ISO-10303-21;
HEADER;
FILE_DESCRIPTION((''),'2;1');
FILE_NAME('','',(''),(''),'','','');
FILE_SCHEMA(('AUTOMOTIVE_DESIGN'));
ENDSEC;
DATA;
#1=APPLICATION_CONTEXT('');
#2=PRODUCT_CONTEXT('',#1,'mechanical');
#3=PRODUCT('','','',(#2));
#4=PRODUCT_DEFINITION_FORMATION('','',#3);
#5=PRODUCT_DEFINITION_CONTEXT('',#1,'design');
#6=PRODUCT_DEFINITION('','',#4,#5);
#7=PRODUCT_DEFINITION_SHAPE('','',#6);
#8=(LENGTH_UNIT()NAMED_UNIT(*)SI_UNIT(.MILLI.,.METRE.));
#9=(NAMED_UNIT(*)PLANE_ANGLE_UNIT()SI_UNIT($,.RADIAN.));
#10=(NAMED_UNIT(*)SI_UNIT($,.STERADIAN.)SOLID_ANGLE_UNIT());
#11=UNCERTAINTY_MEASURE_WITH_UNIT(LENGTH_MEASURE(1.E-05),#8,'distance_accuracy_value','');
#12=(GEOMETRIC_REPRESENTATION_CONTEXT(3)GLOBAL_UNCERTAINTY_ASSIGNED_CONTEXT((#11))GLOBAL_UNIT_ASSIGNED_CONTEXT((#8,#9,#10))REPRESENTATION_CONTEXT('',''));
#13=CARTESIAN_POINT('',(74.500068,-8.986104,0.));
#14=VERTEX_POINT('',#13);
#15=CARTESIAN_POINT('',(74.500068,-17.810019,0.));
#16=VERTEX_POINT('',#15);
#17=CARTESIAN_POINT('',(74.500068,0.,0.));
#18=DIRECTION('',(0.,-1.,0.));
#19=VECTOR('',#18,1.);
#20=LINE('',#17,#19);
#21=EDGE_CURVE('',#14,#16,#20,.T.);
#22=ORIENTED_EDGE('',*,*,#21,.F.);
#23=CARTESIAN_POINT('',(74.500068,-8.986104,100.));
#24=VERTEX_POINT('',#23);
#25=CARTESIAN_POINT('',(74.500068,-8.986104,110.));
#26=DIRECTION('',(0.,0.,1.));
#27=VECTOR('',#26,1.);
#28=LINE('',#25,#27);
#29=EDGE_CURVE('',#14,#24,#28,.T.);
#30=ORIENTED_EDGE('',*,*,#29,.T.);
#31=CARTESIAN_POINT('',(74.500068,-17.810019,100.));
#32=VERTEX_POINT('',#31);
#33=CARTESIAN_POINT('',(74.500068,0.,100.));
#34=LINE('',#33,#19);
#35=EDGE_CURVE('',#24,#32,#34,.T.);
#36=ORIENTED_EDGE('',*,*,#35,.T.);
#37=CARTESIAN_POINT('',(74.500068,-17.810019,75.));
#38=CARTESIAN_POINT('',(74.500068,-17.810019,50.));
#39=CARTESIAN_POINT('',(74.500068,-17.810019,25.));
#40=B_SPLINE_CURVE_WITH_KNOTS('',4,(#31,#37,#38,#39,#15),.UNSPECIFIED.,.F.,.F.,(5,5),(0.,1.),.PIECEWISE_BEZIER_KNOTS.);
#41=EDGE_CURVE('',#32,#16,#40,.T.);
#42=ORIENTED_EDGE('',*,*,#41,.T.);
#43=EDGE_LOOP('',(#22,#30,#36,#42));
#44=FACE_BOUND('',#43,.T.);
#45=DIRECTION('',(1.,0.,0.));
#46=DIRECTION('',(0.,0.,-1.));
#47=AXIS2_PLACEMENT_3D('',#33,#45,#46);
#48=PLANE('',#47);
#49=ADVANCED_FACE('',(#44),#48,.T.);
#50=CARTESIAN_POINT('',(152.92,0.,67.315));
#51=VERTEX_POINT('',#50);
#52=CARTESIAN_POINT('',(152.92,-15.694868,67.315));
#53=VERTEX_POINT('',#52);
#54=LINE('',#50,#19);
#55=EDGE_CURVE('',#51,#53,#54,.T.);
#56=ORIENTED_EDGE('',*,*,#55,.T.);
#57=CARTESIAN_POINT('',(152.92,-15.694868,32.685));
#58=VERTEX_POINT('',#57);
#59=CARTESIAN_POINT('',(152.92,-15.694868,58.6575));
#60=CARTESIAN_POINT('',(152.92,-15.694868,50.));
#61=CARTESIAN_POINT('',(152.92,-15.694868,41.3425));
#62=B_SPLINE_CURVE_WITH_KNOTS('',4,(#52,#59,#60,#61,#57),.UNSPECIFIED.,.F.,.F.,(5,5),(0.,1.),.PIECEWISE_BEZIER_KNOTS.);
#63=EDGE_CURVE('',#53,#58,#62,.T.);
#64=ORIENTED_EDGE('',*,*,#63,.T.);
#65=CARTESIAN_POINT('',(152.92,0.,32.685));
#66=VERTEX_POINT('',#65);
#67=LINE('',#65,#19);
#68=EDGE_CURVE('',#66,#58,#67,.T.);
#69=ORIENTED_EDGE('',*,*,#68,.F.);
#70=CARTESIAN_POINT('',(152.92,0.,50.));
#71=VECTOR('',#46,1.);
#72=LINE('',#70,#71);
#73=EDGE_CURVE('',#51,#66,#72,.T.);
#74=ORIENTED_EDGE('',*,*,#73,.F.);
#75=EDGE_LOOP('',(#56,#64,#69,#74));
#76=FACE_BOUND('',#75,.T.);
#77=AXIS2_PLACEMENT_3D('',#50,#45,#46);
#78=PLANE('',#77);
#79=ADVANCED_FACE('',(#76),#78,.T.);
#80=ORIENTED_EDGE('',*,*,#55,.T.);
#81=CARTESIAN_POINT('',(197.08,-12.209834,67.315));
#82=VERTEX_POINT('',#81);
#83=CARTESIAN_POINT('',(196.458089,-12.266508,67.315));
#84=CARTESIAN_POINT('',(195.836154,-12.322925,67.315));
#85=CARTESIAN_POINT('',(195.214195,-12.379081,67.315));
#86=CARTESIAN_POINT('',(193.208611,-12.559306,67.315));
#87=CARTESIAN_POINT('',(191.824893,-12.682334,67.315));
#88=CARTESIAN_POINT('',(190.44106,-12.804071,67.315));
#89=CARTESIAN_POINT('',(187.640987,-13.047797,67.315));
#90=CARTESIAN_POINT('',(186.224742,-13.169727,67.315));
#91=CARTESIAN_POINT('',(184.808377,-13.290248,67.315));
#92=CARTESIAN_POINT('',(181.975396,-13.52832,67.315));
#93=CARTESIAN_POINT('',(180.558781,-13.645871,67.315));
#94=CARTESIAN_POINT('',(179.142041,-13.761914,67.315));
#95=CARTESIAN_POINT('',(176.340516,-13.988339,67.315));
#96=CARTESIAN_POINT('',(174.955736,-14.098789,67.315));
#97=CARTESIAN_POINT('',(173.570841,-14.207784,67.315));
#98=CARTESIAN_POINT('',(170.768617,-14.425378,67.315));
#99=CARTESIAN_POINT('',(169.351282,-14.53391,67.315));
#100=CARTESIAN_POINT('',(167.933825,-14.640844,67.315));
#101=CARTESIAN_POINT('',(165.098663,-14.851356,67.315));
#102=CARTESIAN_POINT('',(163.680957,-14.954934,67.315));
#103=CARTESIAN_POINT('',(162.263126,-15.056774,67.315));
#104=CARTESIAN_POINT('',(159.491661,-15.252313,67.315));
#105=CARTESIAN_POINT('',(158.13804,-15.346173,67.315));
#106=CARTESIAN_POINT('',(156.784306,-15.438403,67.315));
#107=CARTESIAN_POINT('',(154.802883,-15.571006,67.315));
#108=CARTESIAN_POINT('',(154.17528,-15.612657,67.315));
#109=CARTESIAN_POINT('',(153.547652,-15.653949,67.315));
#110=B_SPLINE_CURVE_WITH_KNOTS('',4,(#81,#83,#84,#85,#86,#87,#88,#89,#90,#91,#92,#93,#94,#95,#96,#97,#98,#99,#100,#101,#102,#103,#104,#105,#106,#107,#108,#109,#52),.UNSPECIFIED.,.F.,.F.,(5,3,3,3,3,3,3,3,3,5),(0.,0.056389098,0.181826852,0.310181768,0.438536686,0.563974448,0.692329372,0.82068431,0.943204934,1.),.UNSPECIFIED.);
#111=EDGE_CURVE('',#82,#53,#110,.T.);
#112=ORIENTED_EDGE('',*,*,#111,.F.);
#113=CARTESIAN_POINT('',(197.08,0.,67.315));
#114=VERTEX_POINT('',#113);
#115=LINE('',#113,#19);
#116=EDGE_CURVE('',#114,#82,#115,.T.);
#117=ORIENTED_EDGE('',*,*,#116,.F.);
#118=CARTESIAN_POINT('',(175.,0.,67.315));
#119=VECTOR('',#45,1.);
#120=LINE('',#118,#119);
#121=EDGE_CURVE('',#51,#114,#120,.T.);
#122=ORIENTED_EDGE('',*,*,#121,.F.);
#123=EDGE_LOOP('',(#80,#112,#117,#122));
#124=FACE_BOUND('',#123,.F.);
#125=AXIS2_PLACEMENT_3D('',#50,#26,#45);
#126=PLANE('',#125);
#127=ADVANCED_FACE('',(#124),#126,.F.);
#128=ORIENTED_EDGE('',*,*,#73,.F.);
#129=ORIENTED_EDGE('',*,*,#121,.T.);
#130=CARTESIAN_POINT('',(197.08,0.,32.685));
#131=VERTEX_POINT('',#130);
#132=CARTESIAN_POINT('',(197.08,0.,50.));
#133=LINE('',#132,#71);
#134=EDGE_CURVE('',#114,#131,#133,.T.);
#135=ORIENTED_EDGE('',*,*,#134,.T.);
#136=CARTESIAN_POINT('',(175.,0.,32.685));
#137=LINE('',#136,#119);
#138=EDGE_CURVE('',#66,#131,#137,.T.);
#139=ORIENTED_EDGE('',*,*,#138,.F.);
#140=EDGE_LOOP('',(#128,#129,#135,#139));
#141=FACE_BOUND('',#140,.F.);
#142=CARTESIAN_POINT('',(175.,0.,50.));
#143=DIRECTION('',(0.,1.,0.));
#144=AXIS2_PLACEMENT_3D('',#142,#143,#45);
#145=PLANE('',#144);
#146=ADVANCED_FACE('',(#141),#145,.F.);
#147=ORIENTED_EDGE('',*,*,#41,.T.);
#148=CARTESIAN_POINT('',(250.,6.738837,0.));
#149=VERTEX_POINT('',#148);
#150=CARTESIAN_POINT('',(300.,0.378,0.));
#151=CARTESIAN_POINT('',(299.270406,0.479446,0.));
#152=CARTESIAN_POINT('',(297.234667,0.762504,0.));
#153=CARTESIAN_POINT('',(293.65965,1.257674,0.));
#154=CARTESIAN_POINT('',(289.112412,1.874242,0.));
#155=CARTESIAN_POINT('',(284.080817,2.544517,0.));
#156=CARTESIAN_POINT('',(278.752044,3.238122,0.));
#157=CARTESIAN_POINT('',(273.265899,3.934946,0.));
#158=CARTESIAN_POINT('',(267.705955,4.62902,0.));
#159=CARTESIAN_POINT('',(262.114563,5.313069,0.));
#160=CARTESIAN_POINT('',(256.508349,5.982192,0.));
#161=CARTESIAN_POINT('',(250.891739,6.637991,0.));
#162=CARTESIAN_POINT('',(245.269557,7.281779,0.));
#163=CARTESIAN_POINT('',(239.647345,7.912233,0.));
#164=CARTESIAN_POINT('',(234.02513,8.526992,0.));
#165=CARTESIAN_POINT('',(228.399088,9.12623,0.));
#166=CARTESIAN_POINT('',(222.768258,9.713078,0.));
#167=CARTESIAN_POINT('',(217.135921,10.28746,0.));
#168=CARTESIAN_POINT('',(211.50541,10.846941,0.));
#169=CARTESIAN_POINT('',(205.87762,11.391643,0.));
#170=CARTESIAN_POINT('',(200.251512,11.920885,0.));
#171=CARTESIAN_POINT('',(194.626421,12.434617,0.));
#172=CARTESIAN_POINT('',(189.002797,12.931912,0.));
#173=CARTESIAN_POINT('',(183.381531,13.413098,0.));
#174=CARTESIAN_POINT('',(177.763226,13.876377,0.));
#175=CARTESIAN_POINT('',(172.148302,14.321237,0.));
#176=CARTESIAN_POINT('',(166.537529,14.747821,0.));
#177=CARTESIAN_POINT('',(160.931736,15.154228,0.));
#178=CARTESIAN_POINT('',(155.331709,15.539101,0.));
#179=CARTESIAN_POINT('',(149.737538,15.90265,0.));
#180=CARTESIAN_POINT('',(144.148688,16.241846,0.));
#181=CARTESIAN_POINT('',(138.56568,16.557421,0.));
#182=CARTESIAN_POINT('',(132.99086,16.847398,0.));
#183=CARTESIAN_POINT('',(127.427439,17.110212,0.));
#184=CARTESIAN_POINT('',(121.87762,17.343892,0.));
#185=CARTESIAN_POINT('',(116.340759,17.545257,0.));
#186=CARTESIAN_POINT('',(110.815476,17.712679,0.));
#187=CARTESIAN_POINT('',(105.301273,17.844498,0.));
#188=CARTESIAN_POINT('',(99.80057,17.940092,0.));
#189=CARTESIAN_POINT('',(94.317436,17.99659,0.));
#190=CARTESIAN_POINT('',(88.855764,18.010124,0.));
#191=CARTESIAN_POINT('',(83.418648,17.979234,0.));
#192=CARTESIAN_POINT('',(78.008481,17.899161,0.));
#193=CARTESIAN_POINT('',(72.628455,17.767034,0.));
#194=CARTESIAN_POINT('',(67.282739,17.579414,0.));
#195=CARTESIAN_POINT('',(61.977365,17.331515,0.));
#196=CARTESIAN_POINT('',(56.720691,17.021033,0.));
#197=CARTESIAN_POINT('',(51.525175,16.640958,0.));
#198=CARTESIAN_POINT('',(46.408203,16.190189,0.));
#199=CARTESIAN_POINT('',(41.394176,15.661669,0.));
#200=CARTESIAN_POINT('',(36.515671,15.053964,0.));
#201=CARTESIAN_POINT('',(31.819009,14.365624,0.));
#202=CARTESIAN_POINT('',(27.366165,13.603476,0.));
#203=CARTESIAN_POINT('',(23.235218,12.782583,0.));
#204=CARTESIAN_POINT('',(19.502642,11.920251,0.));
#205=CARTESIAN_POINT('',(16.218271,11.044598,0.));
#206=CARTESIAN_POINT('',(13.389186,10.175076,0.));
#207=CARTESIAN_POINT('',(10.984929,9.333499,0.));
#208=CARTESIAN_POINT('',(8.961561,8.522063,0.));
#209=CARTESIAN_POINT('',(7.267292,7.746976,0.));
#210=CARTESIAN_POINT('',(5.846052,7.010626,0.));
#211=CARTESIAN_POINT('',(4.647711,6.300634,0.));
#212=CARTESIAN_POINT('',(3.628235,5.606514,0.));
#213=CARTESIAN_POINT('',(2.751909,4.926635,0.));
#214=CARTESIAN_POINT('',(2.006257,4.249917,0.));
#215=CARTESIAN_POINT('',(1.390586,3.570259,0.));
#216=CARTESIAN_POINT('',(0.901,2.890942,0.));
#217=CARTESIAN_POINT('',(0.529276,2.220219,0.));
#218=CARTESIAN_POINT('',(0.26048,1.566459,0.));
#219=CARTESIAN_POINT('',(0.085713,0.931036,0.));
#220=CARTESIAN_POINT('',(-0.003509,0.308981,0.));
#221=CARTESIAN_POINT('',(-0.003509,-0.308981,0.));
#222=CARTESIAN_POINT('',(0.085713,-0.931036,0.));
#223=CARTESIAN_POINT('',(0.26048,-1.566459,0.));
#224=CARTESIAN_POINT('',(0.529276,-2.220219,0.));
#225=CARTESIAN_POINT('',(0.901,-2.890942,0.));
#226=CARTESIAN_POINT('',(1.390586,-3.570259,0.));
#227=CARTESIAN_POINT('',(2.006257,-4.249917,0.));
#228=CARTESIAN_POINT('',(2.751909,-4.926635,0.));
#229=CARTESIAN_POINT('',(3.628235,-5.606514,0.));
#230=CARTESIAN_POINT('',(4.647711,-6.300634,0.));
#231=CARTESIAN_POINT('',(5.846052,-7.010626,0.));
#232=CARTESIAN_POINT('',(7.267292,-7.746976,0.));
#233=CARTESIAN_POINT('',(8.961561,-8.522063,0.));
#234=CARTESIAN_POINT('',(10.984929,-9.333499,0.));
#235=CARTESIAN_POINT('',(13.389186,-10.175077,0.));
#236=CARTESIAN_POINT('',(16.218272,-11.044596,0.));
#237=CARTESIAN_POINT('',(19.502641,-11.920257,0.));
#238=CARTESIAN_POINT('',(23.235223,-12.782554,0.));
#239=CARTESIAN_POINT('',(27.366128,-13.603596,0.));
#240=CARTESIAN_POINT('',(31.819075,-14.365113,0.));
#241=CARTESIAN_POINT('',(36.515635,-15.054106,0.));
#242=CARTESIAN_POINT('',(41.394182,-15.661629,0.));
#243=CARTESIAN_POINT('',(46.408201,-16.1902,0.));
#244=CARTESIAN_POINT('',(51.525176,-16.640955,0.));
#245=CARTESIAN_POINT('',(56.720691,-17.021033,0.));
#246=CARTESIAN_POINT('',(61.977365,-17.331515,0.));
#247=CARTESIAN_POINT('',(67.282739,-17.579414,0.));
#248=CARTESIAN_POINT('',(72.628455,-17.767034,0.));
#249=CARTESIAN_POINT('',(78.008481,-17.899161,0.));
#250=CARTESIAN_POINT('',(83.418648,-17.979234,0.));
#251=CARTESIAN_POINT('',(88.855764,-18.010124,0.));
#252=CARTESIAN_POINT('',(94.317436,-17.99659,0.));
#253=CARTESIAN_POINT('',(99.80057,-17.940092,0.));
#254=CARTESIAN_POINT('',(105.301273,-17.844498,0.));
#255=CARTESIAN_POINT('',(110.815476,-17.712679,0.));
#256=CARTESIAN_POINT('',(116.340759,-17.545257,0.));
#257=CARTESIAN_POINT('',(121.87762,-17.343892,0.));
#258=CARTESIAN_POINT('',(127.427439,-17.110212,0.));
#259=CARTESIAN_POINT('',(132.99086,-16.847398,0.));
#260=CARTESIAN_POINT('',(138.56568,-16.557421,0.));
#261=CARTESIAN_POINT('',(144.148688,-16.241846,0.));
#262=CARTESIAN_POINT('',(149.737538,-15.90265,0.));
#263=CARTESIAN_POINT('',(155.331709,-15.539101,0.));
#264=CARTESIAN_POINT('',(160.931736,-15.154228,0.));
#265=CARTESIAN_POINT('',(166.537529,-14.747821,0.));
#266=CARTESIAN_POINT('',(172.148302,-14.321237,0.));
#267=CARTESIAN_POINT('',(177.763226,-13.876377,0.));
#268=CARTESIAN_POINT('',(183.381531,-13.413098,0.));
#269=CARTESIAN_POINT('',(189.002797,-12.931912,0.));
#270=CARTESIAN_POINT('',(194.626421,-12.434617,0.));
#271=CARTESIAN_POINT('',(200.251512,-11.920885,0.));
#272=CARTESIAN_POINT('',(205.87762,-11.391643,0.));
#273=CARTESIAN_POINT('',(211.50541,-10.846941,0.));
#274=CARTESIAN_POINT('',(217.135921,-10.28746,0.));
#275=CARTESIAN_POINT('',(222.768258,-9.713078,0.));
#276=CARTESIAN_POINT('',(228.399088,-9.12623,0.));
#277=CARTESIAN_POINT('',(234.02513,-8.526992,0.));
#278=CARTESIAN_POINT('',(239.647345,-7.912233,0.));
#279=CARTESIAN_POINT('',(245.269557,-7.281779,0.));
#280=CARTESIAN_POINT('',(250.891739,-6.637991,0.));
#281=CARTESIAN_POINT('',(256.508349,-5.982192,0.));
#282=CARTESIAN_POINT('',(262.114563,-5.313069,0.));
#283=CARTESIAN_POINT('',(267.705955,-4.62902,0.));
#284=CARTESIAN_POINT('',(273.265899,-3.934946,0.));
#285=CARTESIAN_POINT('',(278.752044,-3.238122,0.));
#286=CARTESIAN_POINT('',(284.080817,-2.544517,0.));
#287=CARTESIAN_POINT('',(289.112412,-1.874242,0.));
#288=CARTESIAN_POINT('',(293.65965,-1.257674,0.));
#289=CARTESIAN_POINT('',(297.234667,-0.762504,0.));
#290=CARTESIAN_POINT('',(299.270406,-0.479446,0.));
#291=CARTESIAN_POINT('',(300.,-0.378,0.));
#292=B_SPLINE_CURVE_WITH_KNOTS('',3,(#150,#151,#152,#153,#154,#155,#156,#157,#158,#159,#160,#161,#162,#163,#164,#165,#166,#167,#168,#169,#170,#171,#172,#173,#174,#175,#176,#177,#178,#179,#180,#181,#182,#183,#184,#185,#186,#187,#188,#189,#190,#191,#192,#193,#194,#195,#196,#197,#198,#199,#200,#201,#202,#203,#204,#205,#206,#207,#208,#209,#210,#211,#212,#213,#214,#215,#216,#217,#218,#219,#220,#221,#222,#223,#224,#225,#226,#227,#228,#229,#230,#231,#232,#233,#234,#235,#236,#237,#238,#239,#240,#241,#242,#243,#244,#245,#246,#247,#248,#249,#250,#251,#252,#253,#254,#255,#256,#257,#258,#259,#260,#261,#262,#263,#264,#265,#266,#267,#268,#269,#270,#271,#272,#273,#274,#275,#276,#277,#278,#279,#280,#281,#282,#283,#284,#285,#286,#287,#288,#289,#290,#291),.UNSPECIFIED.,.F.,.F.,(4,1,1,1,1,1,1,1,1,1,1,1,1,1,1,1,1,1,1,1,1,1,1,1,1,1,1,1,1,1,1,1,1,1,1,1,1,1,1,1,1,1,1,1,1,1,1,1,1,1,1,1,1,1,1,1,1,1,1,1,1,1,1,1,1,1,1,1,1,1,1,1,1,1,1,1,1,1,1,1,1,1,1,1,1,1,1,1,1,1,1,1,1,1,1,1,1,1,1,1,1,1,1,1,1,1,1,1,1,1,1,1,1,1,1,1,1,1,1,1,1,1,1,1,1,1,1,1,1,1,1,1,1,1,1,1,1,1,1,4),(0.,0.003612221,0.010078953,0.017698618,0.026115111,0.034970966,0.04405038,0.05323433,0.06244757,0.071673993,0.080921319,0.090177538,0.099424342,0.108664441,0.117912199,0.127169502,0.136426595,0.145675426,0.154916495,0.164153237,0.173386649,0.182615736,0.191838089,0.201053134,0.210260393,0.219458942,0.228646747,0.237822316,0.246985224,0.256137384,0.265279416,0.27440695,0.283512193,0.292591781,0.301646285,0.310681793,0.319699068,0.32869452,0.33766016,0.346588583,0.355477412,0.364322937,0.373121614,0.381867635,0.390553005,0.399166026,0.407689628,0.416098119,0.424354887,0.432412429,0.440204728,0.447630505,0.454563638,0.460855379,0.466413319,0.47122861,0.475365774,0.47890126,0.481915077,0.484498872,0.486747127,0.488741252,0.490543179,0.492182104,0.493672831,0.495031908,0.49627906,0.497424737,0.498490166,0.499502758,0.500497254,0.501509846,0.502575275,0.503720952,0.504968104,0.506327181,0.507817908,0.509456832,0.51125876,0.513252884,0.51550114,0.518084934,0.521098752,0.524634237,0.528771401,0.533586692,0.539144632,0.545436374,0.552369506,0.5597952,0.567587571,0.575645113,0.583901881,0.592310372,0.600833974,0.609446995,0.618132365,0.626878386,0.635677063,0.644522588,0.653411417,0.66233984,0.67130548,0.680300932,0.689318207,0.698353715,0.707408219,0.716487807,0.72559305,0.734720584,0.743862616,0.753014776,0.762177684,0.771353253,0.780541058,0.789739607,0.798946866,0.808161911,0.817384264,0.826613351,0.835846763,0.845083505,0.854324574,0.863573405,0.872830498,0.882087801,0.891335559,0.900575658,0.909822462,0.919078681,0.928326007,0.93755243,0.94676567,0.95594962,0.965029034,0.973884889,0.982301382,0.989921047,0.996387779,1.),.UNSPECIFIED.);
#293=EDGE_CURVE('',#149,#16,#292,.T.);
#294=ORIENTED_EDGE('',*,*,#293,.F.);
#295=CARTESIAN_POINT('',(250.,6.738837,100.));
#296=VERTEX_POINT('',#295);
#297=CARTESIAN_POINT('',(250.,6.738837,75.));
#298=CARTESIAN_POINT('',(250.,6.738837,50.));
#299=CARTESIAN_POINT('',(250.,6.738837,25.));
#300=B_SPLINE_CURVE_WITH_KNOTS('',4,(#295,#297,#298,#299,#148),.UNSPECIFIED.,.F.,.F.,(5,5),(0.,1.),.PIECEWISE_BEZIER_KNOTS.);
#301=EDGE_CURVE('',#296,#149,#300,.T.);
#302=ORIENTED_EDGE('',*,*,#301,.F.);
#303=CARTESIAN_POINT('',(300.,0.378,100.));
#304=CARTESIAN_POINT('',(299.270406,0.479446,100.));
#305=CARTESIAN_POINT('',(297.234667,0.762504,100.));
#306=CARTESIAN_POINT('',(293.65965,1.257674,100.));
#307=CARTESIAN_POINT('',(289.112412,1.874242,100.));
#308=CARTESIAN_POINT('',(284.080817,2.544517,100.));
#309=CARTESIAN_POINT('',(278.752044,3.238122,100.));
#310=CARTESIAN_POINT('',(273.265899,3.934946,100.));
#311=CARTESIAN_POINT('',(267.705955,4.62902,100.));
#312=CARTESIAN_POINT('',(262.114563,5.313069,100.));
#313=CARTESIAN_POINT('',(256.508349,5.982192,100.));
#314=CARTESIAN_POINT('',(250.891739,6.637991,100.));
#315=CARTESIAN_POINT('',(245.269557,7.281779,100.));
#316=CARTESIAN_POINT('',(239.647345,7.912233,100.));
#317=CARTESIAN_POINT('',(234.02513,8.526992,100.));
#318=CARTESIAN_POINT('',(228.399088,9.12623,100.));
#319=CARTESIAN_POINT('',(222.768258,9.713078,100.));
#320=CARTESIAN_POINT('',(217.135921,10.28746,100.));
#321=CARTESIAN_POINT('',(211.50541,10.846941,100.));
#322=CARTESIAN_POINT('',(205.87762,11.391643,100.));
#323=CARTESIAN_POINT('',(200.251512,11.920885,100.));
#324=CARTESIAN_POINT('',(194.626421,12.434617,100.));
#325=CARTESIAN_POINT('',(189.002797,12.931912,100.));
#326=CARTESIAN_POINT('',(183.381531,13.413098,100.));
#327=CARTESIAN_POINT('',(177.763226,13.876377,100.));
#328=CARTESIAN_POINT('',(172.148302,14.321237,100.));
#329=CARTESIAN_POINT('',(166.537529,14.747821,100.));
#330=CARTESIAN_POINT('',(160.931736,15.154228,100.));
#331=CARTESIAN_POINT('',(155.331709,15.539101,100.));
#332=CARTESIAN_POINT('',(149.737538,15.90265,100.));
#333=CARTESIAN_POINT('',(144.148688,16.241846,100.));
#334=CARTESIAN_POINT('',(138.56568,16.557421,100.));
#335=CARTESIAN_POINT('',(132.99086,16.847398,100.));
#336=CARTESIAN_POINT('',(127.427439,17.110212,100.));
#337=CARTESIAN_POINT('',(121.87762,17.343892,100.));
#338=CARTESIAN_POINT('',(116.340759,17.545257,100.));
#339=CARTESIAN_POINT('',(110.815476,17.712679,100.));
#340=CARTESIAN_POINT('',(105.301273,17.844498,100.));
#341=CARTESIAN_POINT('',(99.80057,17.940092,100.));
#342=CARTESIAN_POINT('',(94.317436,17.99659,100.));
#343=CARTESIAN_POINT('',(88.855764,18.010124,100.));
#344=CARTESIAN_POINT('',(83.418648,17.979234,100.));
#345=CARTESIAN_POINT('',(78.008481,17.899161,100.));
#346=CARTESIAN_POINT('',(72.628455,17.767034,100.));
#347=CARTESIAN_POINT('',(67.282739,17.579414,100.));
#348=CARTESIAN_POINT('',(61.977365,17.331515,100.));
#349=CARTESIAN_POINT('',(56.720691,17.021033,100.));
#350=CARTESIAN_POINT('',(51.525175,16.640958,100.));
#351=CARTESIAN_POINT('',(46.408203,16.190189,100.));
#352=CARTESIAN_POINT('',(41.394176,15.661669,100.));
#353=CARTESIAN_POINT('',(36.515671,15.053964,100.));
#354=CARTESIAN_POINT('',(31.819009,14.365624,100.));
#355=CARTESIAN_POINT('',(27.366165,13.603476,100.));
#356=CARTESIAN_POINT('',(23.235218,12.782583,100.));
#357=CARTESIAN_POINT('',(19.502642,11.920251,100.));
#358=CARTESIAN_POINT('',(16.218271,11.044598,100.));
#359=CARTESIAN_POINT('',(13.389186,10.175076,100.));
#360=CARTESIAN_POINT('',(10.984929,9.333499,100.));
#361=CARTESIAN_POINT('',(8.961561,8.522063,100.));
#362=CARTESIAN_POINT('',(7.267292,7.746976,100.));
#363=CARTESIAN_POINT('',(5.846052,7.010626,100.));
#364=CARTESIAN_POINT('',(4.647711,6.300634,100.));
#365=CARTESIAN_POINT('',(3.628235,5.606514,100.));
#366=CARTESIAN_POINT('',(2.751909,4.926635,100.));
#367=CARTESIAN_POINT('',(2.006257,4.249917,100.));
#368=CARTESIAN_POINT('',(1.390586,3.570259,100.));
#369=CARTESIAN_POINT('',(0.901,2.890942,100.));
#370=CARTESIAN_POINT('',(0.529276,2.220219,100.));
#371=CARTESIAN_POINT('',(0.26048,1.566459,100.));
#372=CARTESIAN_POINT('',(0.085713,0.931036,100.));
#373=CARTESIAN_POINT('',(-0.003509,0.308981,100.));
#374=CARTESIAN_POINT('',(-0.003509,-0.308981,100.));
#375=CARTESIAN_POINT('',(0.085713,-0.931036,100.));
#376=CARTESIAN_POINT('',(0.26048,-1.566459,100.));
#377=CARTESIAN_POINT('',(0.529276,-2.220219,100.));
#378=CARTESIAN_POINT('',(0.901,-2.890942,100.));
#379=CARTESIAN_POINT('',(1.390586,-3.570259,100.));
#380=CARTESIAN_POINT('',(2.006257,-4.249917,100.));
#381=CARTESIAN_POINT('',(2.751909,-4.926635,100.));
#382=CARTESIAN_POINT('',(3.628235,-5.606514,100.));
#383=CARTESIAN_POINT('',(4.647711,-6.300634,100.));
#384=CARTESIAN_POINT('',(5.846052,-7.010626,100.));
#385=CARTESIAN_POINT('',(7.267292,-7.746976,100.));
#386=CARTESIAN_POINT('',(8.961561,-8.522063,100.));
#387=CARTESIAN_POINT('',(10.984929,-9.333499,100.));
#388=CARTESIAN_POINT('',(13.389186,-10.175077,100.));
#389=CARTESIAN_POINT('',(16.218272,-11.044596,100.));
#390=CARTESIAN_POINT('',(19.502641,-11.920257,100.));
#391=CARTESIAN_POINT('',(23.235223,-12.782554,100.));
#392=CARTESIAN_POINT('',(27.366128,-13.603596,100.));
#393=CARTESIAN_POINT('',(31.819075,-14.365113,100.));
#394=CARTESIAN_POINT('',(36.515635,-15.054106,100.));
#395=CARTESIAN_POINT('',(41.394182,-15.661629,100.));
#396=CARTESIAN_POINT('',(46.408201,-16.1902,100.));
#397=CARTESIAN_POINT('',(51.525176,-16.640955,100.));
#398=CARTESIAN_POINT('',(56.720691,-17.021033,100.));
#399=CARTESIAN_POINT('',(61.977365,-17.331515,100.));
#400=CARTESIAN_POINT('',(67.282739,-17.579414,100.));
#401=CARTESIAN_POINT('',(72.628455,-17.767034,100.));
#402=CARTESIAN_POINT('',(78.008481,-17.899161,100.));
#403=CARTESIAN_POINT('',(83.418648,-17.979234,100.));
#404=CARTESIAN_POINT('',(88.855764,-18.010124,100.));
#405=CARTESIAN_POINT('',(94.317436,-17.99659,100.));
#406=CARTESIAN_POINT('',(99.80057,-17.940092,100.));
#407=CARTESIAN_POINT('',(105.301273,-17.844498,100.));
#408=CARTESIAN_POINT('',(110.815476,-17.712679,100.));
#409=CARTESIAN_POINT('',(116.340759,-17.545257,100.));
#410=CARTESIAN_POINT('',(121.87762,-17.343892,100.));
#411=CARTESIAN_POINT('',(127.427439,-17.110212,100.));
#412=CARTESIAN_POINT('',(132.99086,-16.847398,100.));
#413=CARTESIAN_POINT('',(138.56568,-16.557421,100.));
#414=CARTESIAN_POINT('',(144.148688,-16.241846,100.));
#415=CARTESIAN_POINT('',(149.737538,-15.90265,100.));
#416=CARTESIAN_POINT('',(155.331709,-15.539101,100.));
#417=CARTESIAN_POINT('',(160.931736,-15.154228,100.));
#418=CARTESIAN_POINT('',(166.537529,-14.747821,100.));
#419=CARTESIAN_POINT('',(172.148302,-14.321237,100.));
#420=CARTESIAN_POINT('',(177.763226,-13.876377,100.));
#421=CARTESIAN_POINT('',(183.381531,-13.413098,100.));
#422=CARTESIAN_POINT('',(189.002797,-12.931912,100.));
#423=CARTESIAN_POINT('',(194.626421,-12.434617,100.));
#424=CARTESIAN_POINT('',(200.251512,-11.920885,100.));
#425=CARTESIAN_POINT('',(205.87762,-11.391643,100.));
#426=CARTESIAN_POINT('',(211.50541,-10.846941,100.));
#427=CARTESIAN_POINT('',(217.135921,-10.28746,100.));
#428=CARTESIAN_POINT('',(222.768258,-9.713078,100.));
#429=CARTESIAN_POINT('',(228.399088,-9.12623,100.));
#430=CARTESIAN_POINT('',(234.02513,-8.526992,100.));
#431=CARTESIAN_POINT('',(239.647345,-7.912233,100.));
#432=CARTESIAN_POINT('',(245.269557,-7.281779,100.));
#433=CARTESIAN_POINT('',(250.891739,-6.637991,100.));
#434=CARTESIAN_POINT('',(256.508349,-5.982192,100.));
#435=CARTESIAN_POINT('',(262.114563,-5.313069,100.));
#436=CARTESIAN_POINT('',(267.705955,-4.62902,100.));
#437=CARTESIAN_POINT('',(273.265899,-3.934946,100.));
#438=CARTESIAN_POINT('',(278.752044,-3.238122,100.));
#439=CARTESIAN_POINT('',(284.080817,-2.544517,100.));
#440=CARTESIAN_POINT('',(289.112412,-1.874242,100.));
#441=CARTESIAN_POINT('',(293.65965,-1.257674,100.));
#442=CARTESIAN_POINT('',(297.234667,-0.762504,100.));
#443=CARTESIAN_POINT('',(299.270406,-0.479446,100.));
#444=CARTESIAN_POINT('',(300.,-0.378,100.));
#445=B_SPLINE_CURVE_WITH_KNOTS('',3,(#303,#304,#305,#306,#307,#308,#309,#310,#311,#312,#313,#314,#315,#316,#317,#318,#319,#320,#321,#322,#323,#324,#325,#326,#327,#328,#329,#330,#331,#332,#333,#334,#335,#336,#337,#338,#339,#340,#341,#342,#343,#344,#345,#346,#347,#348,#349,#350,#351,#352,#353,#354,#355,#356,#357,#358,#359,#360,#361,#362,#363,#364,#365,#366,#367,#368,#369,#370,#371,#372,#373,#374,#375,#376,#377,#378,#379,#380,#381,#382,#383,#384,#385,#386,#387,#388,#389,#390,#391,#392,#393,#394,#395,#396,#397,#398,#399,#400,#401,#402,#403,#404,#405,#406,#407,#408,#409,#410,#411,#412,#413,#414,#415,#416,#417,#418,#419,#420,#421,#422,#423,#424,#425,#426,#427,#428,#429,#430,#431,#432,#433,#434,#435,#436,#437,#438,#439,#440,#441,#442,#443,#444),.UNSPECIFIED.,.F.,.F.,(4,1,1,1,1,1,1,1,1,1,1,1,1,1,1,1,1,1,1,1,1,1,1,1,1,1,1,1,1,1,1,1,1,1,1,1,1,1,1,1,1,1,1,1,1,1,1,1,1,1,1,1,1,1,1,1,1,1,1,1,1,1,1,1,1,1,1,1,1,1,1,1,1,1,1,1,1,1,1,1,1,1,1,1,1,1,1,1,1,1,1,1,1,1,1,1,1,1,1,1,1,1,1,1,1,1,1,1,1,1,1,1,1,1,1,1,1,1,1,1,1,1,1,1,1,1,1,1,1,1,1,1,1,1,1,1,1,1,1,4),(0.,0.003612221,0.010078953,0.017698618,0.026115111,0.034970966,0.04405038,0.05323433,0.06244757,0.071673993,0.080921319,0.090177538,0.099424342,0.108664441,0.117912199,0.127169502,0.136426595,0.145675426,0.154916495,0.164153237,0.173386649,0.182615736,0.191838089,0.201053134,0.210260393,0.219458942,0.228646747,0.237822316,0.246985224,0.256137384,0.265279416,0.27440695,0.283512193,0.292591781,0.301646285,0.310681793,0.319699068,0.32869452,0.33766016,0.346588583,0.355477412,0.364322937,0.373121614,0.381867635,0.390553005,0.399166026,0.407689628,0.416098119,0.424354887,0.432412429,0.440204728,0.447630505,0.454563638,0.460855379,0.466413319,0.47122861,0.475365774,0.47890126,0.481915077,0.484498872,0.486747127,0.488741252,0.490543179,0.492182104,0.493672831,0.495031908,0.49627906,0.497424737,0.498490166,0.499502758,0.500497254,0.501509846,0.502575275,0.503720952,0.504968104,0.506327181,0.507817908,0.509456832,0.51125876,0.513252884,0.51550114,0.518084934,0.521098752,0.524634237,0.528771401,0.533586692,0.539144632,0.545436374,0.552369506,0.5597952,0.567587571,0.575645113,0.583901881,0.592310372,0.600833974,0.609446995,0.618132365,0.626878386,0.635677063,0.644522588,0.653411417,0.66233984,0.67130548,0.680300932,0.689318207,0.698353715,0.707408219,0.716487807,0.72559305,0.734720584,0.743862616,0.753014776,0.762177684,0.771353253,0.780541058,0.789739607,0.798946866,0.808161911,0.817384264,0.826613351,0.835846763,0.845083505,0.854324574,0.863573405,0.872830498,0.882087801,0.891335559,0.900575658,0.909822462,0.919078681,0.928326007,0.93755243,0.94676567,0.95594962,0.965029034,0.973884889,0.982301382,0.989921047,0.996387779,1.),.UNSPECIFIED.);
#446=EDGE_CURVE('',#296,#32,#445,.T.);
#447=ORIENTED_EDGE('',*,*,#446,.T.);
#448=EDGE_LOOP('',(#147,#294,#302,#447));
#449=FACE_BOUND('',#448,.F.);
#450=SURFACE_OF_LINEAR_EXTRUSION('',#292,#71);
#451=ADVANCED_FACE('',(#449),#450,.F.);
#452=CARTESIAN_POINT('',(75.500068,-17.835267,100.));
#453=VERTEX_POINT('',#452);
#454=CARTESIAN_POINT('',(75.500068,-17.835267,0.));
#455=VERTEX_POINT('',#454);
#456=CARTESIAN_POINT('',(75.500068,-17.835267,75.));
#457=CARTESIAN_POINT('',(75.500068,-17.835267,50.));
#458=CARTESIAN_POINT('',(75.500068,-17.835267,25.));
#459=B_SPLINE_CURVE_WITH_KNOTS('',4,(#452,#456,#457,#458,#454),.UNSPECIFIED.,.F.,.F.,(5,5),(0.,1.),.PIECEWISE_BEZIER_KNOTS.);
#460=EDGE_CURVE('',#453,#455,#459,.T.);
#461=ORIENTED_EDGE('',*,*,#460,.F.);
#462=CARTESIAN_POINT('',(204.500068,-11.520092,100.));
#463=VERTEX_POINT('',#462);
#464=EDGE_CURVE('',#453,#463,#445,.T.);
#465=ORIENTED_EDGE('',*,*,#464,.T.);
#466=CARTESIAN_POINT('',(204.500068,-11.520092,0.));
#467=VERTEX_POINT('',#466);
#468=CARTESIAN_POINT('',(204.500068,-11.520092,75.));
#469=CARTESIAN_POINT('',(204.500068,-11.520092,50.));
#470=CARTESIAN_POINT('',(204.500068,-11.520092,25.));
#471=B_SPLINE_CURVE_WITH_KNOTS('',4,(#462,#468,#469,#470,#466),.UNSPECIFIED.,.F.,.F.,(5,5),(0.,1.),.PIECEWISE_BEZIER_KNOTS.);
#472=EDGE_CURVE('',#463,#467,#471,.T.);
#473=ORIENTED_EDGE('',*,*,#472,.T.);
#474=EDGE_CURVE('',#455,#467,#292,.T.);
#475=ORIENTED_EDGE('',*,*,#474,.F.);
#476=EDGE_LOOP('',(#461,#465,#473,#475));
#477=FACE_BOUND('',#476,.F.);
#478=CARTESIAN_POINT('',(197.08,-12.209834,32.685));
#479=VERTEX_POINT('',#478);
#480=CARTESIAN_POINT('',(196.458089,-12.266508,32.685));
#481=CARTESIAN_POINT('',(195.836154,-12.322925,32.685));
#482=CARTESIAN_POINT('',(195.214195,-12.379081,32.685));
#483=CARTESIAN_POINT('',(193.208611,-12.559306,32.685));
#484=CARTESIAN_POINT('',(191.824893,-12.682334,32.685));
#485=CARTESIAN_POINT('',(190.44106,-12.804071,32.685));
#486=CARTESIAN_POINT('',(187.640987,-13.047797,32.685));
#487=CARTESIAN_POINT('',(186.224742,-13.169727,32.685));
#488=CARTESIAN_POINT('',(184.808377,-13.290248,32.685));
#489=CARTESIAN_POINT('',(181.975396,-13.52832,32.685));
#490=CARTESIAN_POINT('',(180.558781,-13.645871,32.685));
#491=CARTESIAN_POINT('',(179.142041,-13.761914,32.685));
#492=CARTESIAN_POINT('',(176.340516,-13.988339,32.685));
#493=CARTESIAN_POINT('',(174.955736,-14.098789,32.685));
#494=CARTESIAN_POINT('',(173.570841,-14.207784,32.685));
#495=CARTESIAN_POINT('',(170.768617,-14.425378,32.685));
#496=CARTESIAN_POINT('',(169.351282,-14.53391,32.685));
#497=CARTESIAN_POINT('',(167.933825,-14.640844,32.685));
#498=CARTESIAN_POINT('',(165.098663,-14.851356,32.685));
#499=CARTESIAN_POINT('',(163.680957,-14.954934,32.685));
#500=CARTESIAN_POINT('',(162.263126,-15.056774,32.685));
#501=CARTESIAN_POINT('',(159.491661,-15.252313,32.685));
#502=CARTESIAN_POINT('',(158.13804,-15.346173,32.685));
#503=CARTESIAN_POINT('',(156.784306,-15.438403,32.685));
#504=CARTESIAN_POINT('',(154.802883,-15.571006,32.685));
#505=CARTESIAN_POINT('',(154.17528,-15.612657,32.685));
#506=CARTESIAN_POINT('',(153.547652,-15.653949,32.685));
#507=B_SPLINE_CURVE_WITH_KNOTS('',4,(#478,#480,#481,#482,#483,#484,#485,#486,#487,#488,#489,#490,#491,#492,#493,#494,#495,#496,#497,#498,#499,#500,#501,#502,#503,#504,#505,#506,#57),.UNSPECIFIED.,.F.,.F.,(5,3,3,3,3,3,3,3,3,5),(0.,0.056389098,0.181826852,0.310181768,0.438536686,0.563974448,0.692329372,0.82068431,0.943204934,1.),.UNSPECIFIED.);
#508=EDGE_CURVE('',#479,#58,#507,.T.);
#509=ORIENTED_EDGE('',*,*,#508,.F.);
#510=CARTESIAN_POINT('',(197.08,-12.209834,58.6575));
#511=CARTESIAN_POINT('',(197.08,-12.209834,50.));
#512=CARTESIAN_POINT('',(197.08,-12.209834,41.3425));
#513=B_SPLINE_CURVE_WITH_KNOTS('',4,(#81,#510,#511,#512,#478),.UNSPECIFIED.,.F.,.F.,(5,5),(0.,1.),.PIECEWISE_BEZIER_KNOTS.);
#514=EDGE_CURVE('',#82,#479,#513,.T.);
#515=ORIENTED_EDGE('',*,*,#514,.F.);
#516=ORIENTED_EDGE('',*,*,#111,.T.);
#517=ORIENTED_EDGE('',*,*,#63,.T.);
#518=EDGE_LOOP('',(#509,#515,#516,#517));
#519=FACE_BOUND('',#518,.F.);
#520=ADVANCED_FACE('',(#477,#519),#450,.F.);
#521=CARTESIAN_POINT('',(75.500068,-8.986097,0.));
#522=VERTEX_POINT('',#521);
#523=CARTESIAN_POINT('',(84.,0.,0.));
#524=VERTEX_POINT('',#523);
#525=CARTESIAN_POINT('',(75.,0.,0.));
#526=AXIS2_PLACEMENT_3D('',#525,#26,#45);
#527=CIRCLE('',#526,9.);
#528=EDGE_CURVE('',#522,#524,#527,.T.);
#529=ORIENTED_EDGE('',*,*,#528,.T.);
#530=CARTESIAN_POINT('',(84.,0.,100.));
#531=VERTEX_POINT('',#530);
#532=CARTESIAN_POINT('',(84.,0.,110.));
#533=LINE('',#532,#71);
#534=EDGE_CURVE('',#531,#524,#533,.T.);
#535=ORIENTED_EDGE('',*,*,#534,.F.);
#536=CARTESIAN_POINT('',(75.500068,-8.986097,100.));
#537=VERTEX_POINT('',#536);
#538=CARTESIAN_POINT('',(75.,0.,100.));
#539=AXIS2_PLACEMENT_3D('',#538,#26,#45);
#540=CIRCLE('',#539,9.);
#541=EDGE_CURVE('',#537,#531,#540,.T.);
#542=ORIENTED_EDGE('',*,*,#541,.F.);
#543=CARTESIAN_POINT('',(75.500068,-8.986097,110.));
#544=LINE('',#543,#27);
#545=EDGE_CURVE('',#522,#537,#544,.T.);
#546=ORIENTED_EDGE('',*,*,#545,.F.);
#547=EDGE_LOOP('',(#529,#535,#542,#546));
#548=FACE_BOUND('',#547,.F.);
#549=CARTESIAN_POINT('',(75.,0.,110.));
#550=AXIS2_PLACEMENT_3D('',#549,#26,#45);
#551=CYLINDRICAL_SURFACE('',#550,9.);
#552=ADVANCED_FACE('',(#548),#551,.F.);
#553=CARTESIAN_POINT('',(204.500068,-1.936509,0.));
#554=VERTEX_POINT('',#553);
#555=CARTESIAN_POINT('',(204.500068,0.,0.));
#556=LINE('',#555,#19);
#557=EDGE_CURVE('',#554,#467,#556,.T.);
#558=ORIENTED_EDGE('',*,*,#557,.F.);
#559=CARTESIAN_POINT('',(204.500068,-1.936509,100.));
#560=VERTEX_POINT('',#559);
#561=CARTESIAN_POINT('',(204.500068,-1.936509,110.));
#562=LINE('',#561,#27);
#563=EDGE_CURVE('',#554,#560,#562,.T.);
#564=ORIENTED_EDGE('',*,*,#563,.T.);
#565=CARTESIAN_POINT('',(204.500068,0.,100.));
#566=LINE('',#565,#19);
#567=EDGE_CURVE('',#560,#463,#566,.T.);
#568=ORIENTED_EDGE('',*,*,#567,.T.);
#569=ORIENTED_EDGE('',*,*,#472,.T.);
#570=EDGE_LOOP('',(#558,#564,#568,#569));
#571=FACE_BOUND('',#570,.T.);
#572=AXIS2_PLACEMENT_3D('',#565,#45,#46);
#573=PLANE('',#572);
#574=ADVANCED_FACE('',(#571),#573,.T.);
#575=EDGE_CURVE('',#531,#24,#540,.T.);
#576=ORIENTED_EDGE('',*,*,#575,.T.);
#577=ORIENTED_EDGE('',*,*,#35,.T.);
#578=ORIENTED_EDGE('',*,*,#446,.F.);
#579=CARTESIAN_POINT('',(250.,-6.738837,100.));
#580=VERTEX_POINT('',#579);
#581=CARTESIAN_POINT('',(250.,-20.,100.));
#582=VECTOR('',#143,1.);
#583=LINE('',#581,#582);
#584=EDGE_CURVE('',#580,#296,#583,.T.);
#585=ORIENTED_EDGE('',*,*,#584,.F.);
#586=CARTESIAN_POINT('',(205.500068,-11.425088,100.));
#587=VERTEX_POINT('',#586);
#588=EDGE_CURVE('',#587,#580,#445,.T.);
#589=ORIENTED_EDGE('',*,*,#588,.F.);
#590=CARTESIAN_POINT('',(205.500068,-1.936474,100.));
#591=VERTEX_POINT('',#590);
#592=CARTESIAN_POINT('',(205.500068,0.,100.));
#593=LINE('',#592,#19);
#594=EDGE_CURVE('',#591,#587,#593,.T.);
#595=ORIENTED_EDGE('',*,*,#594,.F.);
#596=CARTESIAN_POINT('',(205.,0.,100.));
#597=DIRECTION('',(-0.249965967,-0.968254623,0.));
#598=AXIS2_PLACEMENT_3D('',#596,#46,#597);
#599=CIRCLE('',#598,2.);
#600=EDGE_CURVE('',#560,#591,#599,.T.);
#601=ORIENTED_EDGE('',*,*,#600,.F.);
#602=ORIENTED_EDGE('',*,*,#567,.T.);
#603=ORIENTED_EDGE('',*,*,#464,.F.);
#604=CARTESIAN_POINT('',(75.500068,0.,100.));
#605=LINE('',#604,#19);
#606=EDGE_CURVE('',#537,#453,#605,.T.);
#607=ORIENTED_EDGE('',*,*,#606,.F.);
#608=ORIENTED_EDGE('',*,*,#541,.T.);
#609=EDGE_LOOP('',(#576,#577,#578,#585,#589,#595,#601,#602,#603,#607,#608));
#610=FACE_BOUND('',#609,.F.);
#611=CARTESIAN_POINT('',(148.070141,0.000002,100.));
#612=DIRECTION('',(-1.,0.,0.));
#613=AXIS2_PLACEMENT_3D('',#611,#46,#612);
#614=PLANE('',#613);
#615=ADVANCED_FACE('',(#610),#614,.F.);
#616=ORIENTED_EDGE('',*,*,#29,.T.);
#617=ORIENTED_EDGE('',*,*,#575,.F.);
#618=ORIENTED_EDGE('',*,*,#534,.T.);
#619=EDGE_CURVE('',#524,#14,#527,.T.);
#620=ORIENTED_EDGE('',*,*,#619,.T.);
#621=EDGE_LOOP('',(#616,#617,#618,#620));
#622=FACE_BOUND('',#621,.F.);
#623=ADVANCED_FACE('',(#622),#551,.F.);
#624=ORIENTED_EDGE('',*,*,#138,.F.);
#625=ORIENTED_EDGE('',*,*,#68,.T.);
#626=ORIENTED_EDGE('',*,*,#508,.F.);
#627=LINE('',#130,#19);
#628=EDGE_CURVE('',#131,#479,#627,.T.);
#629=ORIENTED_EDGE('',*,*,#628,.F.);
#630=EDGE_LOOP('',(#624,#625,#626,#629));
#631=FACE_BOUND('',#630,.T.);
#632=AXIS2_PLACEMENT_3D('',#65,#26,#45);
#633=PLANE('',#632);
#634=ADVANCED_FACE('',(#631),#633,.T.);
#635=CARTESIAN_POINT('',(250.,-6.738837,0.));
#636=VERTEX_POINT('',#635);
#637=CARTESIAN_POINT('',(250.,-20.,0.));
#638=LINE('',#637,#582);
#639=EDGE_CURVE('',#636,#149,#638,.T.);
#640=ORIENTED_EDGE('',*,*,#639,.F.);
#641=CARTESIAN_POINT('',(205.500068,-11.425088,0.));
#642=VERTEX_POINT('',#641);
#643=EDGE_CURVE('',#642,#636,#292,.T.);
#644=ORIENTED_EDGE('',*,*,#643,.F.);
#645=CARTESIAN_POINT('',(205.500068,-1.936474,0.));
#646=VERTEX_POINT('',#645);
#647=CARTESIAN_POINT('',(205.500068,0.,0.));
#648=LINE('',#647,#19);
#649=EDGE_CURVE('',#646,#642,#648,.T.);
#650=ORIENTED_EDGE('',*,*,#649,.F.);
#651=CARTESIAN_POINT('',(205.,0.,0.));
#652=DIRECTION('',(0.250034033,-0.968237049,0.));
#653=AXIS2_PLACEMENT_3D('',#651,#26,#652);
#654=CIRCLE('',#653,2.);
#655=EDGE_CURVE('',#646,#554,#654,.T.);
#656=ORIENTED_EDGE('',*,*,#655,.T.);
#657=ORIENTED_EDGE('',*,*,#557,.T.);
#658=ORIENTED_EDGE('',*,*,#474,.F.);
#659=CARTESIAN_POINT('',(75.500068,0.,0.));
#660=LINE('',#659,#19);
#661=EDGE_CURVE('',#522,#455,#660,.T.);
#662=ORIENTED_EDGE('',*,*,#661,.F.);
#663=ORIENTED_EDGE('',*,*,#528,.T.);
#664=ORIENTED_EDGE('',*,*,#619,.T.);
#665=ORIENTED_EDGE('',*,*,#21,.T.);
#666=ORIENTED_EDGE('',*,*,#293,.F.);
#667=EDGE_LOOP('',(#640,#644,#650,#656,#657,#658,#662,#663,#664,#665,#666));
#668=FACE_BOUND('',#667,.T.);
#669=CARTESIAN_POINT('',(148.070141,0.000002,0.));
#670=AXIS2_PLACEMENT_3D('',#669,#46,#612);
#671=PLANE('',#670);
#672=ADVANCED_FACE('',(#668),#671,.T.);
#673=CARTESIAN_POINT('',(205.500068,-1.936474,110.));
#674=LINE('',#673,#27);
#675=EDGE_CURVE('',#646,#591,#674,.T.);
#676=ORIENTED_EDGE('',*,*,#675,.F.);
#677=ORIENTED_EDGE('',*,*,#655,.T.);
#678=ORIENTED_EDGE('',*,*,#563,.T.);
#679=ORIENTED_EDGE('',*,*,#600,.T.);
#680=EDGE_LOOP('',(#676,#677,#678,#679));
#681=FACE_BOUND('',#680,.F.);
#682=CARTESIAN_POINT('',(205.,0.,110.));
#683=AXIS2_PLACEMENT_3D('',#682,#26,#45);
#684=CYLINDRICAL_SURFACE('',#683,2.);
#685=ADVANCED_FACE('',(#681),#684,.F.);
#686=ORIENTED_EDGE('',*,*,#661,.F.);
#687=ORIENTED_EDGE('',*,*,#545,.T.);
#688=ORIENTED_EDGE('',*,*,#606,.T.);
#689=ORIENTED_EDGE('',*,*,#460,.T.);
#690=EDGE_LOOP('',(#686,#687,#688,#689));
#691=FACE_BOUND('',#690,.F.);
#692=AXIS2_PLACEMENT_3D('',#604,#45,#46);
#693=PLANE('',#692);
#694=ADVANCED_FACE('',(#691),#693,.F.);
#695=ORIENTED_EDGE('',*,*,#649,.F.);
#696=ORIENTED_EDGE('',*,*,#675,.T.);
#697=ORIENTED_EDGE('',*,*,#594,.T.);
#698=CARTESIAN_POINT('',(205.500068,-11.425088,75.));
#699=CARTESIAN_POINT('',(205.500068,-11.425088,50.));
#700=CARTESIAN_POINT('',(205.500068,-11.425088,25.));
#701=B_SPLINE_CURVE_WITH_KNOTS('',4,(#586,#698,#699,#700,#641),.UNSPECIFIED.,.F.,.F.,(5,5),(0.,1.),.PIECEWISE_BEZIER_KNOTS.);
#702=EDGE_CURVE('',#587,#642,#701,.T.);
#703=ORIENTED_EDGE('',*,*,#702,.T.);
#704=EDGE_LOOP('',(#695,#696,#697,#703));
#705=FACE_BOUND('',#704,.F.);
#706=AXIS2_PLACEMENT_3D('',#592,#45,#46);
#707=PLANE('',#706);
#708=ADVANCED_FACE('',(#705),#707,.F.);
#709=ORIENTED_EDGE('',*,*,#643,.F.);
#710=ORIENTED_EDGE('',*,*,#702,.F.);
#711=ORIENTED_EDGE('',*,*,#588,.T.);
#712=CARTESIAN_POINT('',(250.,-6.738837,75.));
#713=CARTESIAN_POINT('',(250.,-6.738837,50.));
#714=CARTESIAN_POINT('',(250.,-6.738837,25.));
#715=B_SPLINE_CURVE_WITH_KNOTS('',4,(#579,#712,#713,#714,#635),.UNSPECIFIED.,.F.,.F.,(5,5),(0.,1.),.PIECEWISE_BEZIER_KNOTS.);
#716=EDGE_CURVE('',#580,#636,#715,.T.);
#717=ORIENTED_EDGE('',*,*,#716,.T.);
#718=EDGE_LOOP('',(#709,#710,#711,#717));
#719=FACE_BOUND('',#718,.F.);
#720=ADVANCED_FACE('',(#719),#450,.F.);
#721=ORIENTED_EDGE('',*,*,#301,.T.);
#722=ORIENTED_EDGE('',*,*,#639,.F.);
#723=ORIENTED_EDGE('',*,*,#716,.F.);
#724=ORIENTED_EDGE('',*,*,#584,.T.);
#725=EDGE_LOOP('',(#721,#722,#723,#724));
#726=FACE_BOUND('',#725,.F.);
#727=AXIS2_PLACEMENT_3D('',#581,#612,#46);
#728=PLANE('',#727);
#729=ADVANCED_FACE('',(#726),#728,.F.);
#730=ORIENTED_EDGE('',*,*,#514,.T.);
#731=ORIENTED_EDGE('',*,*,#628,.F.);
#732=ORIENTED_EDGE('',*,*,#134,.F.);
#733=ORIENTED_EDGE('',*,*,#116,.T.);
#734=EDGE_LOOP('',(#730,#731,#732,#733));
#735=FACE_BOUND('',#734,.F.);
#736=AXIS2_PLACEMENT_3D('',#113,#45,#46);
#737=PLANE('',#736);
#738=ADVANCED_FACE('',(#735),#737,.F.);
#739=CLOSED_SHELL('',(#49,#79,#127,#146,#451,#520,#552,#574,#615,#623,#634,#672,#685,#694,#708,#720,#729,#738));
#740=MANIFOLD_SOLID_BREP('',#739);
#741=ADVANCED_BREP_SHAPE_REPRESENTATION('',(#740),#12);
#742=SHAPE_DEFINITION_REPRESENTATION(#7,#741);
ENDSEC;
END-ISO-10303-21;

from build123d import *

# Parameters (mm, degrees)
BOSS_EXTRUDE1_DEPTH     = 100
SKETCH7_R               = 9
SKETCH7_R_2             = 2
CUT_EXTRUDE7_DEPTH      = 321.037698694
CUT_EXTRUDE8_DEPTH      = 20
CUT_EXTRUDE8_DEPTH_BACK = 20
SKETCH9_W               = 50
SKETCH9_H               = 100
SKETCH10_W              = 1
SKETCH10_H              = 100
CUT_EXTRUDE9_DEPTH      = 20
SKETCH11_W              = 44.16
SKETCH11_H              = 34.63
CUT_EXTRUDE10_DEPTH     = 270.859460782


with BuildPart() as part:
    # Sketch5 → Boss-Extrude1 (new body)
    with BuildSketch(Plane.XY):
        with BuildLine():
            Line((300, 0.378), (300, -0.378))
            add(Edge.make_bspline(
                [(300, 0.378), (299.270406424, 0.479445822), (297.234667094, 0.762503754), (293.659650161, 1.257673506), (289.112411795, 1.874242443), (284.080816659, 2.54451744), (278.752044218, 3.238122316), (273.265899022, 3.934946436), (267.705955472, 4.629019943), (262.11456302, 5.313069107), (256.508348909, 5.982191812), (250.891738994, 6.637990809), (245.269556965, 7.281779235), (239.647345349, 7.912232764), (234.025130107, 8.526992046), (228.399087903, 9.126229764), (222.768257645, 9.713077606), (217.135920793, 10.28745981), (211.505410154, 10.846941084), (205.877619803, 11.391642827), (200.251512374, 11.920884624), (194.626420536, 12.434617078), (189.002797137, 12.931911809), (183.381530938, 13.413097581), (177.763225616, 13.876376701), (172.148301533, 14.321237194), (166.537529462, 14.747820918), (160.931736194, 15.154228144), (155.33170885, 15.539100856), (149.737538345, 15.902649564), (144.148688279, 16.241846119), (138.565679604, 16.557420546), (132.990859803, 16.847397555), (127.42743944, 17.110211679), (121.877619637, 17.343891718), (116.340758577, 17.545256813), (110.815476382, 17.71267912), (105.301273398, 17.844497938), (99.800570116, 17.940091813), (94.317435844, 17.996590439), (88.855764067, 18.010124458), (83.418647975, 17.97923384), (78.008480827, 17.899160713), (72.628455365, 17.767033787), (67.282738746, 17.579413934), (61.977364895, 17.331515489), (56.720691016, 17.021032651), (51.525175322, 16.64095807), (46.408202619, 16.190188591), (41.394176065, 15.661669099), (36.515671087, 15.053963784), (31.819009441, 14.365623605), (27.366164829, 13.603475684), (23.235217954, 12.782583444), (19.502642451, 11.920250751), (16.218271393, 11.044597796), (13.389186016, 10.175076255), (10.984929333, 9.333498715), (8.961561478, 8.522062882), (7.267292053, 7.746976002), (5.846052466, 7.010625622), (4.647711085, 6.300634033), (3.628235251, 5.606513668), (2.751909197, 4.926635252), (2.00625736, 4.249917259), (1.390586137, 3.570259492), (0.901000435, 2.890942252), (0.529275535, 2.220219273), (0.260479537, 1.566458936), (0.085712654, 0.931035928), (-0.003509247, 0.308981015), (-0.003509247, -0.308981015), (0.085712654, -0.931035928), (0.260479537, -1.566458936), (0.529275535, -2.220219273), (0.901000435, -2.890942252), (1.390586137, -3.570259492), (2.00625736, -4.249917259), (2.751909197, -4.926635252), (3.628235251, -5.606513668), (4.647711085, -6.300634033), (5.846052466, -7.010625622), (7.267292053, -7.746975999), (8.961561475, -8.522062895), (10.984929344, -9.333498651), (13.389185965, -10.175076559), (16.21827163, -11.044596377), (19.502641361, -11.92025728), (23.235222799, -12.782554413), (27.366127559, -13.603596161), (31.819075008, -14.365113363), (36.515634637, -15.054106097), (41.394182204, -15.661628887), (46.408200924, -16.190199694), (51.525175786, -16.640955027), (56.720690889, -17.02103348), (61.977364929, -17.331515263), (67.282738736, -17.579413995), (72.628455367, -17.767033771), (78.008480826, -17.899160717), (83.418647975, -17.979233839), (88.855764067, -18.010124458), (94.317435844, -17.996590438), (99.800570116, -17.940091813), (105.301273398, -17.844497938), (110.815476382, -17.71267912), (116.340758577, -17.545256813), (121.877619637, -17.343891718), (127.42743944, -17.110211679), (132.990859803, -16.847397555), (138.565679604, -16.557420546), (144.148688279, -16.241846119), (149.737538345, -15.902649564), (155.33170885, -15.539100856), (160.931736194, -15.154228144), (166.537529462, -14.747820918), (172.148301533, -14.321237194), (177.763225616, -13.876376701), (183.381530938, -13.413097581), (189.002797137, -12.931911809), (194.626420536, -12.434617078), (200.251512374, -11.920884624), (205.877619803, -11.391642827), (211.505410154, -10.846941084), (217.135920793, -10.28745981), (222.768257645, -9.713077606), (228.399087903, -9.126229764), (234.025130107, -8.526992046), (239.647345349, -7.912232764), (245.269556965, -7.281779235), (250.891738994, -6.637990809), (256.508348909, -5.982191812), (262.11456302, -5.313069107), (267.705955472, -4.629019943), (273.265899022, -3.934946436), (278.752044218, -3.238122316), (284.080816659, -2.54451744), (289.112411795, -1.874242443), (293.659650161, -1.257673506), (297.234667094, -0.762503754), (299.270406424, -0.479445822), (300, -0.378)],
                knots=[0, 0, 0, 0, 0.003612221, 0.010078953, 0.017698618, 0.026115111, 0.034970966, 0.04405038, 0.05323433, 0.06244757, 0.071673993, 0.080921319, 0.090177538, 0.099424342, 0.108664441, 0.117912199, 0.127169502, 0.136426595, 0.145675426, 0.154916495, 0.164153237, 0.173386649, 0.182615736, 0.191838089, 0.201053134, 0.210260393, 0.219458942, 0.228646747, 0.237822316, 0.246985224, 0.256137384, 0.265279416, 0.27440695, 0.283512193, 0.292591781, 0.301646285, 0.310681793, 0.319699068, 0.32869452, 0.33766016, 0.346588583, 0.355477412, 0.364322937, 0.373121614, 0.381867635, 0.390553005, 0.399166026, 0.407689628, 0.416098119, 0.424354887, 0.432412429, 0.440204728, 0.447630505, 0.454563638, 0.460855379, 0.466413319, 0.47122861, 0.475365774, 0.47890126, 0.481915077, 0.484498872, 0.486747127, 0.488741252, 0.490543179, 0.492182104, 0.493672831, 0.495031908, 0.49627906, 0.497424737, 0.498490166, 0.499502758, 0.500497254, 0.501509846, 0.502575275, 0.503720952, 0.504968104, 0.506327181, 0.507817908, 0.509456832, 0.51125876, 0.513252884, 0.51550114, 0.518084934, 0.521098752, 0.524634237, 0.528771401, 0.533586692, 0.539144632, 0.545436374, 0.552369506, 0.5597952, 0.567587571, 0.575645113, 0.583901881, 0.592310372, 0.600833974, 0.609446995, 0.618132365, 0.626878386, 0.635677063, 0.644522588, 0.653411417, 0.66233984, 0.67130548, 0.680300932, 0.689318207, 0.698353715, 0.707408219, 0.716487807, 0.72559305, 0.734720584, 0.743862616, 0.753014776, 0.762177684, 0.771353253, 0.780541058, 0.789739607, 0.798946866, 0.808161911, 0.817384264, 0.826613351, 0.835846763, 0.845083505, 0.854324574, 0.863573405, 0.872830498, 0.882087801, 0.891335559, 0.900575658, 0.909822462, 0.919078681, 0.928326007, 0.93755243, 0.94676567, 0.95594962, 0.965029034, 0.973884889, 0.982301382, 0.989921047, 0.996387779, 1, 1, 1, 1], degree=3))
        make_face()
    extrude(amount=BOSS_EXTRUDE1_DEPTH)

    # Sketch7 → Cut-Extrude7 (cut, through all)
    with BuildSketch(Plane.XY.offset(110)):
        with Locations((75, 0)):
            Circle(SKETCH7_R)
        with Locations((205, 0)):
            Circle(SKETCH7_R_2)
    extrude(amount=-CUT_EXTRUDE7_DEPTH, mode=Mode.SUBTRACT)

    # Sketch9 → Cut-Extrude8 (cut, two sides: drawn at the far end of the back side and taken through both)
    with BuildSketch(Plane(origin=(0, 0, 0), x_dir=(1, 0, 0), z_dir=(0, 1, 0)).offset(-CUT_EXTRUDE8_DEPTH_BACK)):
        with Locations((275, -50)):
            Rectangle(SKETCH9_W, SKETCH9_H)
    extrude(amount=CUT_EXTRUDE8_DEPTH + CUT_EXTRUDE8_DEPTH_BACK, mode=Mode.SUBTRACT)

    # Sketch10 → Cut-Extrude9 (cut)
    with BuildSketch(Plane(origin=(0, 0, 0), x_dir=(1, 0, 0), z_dir=(0, 1, 0))):
        with Locations((75.000068065, -50)):
            Rectangle(SKETCH10_W, SKETCH10_H)
        with Locations((205.000068065, -50)):
            Rectangle(SKETCH10_W, SKETCH10_H)
    extrude(amount=-CUT_EXTRUDE9_DEPTH, mode=Mode.SUBTRACT)

    # Sketch11 → Cut-Extrude10 (cut, through all)
    with BuildSketch(Plane(origin=(0, 0, 0), x_dir=(1, 0, 0), z_dir=(0, 1, 0))):
        with Locations((175, -50)):
            Rectangle(SKETCH11_W, SKETCH11_H)
    extrude(amount=-CUT_EXTRUDE10_DEPTH, mode=Mode.SUBTRACT)


solid = part.part
